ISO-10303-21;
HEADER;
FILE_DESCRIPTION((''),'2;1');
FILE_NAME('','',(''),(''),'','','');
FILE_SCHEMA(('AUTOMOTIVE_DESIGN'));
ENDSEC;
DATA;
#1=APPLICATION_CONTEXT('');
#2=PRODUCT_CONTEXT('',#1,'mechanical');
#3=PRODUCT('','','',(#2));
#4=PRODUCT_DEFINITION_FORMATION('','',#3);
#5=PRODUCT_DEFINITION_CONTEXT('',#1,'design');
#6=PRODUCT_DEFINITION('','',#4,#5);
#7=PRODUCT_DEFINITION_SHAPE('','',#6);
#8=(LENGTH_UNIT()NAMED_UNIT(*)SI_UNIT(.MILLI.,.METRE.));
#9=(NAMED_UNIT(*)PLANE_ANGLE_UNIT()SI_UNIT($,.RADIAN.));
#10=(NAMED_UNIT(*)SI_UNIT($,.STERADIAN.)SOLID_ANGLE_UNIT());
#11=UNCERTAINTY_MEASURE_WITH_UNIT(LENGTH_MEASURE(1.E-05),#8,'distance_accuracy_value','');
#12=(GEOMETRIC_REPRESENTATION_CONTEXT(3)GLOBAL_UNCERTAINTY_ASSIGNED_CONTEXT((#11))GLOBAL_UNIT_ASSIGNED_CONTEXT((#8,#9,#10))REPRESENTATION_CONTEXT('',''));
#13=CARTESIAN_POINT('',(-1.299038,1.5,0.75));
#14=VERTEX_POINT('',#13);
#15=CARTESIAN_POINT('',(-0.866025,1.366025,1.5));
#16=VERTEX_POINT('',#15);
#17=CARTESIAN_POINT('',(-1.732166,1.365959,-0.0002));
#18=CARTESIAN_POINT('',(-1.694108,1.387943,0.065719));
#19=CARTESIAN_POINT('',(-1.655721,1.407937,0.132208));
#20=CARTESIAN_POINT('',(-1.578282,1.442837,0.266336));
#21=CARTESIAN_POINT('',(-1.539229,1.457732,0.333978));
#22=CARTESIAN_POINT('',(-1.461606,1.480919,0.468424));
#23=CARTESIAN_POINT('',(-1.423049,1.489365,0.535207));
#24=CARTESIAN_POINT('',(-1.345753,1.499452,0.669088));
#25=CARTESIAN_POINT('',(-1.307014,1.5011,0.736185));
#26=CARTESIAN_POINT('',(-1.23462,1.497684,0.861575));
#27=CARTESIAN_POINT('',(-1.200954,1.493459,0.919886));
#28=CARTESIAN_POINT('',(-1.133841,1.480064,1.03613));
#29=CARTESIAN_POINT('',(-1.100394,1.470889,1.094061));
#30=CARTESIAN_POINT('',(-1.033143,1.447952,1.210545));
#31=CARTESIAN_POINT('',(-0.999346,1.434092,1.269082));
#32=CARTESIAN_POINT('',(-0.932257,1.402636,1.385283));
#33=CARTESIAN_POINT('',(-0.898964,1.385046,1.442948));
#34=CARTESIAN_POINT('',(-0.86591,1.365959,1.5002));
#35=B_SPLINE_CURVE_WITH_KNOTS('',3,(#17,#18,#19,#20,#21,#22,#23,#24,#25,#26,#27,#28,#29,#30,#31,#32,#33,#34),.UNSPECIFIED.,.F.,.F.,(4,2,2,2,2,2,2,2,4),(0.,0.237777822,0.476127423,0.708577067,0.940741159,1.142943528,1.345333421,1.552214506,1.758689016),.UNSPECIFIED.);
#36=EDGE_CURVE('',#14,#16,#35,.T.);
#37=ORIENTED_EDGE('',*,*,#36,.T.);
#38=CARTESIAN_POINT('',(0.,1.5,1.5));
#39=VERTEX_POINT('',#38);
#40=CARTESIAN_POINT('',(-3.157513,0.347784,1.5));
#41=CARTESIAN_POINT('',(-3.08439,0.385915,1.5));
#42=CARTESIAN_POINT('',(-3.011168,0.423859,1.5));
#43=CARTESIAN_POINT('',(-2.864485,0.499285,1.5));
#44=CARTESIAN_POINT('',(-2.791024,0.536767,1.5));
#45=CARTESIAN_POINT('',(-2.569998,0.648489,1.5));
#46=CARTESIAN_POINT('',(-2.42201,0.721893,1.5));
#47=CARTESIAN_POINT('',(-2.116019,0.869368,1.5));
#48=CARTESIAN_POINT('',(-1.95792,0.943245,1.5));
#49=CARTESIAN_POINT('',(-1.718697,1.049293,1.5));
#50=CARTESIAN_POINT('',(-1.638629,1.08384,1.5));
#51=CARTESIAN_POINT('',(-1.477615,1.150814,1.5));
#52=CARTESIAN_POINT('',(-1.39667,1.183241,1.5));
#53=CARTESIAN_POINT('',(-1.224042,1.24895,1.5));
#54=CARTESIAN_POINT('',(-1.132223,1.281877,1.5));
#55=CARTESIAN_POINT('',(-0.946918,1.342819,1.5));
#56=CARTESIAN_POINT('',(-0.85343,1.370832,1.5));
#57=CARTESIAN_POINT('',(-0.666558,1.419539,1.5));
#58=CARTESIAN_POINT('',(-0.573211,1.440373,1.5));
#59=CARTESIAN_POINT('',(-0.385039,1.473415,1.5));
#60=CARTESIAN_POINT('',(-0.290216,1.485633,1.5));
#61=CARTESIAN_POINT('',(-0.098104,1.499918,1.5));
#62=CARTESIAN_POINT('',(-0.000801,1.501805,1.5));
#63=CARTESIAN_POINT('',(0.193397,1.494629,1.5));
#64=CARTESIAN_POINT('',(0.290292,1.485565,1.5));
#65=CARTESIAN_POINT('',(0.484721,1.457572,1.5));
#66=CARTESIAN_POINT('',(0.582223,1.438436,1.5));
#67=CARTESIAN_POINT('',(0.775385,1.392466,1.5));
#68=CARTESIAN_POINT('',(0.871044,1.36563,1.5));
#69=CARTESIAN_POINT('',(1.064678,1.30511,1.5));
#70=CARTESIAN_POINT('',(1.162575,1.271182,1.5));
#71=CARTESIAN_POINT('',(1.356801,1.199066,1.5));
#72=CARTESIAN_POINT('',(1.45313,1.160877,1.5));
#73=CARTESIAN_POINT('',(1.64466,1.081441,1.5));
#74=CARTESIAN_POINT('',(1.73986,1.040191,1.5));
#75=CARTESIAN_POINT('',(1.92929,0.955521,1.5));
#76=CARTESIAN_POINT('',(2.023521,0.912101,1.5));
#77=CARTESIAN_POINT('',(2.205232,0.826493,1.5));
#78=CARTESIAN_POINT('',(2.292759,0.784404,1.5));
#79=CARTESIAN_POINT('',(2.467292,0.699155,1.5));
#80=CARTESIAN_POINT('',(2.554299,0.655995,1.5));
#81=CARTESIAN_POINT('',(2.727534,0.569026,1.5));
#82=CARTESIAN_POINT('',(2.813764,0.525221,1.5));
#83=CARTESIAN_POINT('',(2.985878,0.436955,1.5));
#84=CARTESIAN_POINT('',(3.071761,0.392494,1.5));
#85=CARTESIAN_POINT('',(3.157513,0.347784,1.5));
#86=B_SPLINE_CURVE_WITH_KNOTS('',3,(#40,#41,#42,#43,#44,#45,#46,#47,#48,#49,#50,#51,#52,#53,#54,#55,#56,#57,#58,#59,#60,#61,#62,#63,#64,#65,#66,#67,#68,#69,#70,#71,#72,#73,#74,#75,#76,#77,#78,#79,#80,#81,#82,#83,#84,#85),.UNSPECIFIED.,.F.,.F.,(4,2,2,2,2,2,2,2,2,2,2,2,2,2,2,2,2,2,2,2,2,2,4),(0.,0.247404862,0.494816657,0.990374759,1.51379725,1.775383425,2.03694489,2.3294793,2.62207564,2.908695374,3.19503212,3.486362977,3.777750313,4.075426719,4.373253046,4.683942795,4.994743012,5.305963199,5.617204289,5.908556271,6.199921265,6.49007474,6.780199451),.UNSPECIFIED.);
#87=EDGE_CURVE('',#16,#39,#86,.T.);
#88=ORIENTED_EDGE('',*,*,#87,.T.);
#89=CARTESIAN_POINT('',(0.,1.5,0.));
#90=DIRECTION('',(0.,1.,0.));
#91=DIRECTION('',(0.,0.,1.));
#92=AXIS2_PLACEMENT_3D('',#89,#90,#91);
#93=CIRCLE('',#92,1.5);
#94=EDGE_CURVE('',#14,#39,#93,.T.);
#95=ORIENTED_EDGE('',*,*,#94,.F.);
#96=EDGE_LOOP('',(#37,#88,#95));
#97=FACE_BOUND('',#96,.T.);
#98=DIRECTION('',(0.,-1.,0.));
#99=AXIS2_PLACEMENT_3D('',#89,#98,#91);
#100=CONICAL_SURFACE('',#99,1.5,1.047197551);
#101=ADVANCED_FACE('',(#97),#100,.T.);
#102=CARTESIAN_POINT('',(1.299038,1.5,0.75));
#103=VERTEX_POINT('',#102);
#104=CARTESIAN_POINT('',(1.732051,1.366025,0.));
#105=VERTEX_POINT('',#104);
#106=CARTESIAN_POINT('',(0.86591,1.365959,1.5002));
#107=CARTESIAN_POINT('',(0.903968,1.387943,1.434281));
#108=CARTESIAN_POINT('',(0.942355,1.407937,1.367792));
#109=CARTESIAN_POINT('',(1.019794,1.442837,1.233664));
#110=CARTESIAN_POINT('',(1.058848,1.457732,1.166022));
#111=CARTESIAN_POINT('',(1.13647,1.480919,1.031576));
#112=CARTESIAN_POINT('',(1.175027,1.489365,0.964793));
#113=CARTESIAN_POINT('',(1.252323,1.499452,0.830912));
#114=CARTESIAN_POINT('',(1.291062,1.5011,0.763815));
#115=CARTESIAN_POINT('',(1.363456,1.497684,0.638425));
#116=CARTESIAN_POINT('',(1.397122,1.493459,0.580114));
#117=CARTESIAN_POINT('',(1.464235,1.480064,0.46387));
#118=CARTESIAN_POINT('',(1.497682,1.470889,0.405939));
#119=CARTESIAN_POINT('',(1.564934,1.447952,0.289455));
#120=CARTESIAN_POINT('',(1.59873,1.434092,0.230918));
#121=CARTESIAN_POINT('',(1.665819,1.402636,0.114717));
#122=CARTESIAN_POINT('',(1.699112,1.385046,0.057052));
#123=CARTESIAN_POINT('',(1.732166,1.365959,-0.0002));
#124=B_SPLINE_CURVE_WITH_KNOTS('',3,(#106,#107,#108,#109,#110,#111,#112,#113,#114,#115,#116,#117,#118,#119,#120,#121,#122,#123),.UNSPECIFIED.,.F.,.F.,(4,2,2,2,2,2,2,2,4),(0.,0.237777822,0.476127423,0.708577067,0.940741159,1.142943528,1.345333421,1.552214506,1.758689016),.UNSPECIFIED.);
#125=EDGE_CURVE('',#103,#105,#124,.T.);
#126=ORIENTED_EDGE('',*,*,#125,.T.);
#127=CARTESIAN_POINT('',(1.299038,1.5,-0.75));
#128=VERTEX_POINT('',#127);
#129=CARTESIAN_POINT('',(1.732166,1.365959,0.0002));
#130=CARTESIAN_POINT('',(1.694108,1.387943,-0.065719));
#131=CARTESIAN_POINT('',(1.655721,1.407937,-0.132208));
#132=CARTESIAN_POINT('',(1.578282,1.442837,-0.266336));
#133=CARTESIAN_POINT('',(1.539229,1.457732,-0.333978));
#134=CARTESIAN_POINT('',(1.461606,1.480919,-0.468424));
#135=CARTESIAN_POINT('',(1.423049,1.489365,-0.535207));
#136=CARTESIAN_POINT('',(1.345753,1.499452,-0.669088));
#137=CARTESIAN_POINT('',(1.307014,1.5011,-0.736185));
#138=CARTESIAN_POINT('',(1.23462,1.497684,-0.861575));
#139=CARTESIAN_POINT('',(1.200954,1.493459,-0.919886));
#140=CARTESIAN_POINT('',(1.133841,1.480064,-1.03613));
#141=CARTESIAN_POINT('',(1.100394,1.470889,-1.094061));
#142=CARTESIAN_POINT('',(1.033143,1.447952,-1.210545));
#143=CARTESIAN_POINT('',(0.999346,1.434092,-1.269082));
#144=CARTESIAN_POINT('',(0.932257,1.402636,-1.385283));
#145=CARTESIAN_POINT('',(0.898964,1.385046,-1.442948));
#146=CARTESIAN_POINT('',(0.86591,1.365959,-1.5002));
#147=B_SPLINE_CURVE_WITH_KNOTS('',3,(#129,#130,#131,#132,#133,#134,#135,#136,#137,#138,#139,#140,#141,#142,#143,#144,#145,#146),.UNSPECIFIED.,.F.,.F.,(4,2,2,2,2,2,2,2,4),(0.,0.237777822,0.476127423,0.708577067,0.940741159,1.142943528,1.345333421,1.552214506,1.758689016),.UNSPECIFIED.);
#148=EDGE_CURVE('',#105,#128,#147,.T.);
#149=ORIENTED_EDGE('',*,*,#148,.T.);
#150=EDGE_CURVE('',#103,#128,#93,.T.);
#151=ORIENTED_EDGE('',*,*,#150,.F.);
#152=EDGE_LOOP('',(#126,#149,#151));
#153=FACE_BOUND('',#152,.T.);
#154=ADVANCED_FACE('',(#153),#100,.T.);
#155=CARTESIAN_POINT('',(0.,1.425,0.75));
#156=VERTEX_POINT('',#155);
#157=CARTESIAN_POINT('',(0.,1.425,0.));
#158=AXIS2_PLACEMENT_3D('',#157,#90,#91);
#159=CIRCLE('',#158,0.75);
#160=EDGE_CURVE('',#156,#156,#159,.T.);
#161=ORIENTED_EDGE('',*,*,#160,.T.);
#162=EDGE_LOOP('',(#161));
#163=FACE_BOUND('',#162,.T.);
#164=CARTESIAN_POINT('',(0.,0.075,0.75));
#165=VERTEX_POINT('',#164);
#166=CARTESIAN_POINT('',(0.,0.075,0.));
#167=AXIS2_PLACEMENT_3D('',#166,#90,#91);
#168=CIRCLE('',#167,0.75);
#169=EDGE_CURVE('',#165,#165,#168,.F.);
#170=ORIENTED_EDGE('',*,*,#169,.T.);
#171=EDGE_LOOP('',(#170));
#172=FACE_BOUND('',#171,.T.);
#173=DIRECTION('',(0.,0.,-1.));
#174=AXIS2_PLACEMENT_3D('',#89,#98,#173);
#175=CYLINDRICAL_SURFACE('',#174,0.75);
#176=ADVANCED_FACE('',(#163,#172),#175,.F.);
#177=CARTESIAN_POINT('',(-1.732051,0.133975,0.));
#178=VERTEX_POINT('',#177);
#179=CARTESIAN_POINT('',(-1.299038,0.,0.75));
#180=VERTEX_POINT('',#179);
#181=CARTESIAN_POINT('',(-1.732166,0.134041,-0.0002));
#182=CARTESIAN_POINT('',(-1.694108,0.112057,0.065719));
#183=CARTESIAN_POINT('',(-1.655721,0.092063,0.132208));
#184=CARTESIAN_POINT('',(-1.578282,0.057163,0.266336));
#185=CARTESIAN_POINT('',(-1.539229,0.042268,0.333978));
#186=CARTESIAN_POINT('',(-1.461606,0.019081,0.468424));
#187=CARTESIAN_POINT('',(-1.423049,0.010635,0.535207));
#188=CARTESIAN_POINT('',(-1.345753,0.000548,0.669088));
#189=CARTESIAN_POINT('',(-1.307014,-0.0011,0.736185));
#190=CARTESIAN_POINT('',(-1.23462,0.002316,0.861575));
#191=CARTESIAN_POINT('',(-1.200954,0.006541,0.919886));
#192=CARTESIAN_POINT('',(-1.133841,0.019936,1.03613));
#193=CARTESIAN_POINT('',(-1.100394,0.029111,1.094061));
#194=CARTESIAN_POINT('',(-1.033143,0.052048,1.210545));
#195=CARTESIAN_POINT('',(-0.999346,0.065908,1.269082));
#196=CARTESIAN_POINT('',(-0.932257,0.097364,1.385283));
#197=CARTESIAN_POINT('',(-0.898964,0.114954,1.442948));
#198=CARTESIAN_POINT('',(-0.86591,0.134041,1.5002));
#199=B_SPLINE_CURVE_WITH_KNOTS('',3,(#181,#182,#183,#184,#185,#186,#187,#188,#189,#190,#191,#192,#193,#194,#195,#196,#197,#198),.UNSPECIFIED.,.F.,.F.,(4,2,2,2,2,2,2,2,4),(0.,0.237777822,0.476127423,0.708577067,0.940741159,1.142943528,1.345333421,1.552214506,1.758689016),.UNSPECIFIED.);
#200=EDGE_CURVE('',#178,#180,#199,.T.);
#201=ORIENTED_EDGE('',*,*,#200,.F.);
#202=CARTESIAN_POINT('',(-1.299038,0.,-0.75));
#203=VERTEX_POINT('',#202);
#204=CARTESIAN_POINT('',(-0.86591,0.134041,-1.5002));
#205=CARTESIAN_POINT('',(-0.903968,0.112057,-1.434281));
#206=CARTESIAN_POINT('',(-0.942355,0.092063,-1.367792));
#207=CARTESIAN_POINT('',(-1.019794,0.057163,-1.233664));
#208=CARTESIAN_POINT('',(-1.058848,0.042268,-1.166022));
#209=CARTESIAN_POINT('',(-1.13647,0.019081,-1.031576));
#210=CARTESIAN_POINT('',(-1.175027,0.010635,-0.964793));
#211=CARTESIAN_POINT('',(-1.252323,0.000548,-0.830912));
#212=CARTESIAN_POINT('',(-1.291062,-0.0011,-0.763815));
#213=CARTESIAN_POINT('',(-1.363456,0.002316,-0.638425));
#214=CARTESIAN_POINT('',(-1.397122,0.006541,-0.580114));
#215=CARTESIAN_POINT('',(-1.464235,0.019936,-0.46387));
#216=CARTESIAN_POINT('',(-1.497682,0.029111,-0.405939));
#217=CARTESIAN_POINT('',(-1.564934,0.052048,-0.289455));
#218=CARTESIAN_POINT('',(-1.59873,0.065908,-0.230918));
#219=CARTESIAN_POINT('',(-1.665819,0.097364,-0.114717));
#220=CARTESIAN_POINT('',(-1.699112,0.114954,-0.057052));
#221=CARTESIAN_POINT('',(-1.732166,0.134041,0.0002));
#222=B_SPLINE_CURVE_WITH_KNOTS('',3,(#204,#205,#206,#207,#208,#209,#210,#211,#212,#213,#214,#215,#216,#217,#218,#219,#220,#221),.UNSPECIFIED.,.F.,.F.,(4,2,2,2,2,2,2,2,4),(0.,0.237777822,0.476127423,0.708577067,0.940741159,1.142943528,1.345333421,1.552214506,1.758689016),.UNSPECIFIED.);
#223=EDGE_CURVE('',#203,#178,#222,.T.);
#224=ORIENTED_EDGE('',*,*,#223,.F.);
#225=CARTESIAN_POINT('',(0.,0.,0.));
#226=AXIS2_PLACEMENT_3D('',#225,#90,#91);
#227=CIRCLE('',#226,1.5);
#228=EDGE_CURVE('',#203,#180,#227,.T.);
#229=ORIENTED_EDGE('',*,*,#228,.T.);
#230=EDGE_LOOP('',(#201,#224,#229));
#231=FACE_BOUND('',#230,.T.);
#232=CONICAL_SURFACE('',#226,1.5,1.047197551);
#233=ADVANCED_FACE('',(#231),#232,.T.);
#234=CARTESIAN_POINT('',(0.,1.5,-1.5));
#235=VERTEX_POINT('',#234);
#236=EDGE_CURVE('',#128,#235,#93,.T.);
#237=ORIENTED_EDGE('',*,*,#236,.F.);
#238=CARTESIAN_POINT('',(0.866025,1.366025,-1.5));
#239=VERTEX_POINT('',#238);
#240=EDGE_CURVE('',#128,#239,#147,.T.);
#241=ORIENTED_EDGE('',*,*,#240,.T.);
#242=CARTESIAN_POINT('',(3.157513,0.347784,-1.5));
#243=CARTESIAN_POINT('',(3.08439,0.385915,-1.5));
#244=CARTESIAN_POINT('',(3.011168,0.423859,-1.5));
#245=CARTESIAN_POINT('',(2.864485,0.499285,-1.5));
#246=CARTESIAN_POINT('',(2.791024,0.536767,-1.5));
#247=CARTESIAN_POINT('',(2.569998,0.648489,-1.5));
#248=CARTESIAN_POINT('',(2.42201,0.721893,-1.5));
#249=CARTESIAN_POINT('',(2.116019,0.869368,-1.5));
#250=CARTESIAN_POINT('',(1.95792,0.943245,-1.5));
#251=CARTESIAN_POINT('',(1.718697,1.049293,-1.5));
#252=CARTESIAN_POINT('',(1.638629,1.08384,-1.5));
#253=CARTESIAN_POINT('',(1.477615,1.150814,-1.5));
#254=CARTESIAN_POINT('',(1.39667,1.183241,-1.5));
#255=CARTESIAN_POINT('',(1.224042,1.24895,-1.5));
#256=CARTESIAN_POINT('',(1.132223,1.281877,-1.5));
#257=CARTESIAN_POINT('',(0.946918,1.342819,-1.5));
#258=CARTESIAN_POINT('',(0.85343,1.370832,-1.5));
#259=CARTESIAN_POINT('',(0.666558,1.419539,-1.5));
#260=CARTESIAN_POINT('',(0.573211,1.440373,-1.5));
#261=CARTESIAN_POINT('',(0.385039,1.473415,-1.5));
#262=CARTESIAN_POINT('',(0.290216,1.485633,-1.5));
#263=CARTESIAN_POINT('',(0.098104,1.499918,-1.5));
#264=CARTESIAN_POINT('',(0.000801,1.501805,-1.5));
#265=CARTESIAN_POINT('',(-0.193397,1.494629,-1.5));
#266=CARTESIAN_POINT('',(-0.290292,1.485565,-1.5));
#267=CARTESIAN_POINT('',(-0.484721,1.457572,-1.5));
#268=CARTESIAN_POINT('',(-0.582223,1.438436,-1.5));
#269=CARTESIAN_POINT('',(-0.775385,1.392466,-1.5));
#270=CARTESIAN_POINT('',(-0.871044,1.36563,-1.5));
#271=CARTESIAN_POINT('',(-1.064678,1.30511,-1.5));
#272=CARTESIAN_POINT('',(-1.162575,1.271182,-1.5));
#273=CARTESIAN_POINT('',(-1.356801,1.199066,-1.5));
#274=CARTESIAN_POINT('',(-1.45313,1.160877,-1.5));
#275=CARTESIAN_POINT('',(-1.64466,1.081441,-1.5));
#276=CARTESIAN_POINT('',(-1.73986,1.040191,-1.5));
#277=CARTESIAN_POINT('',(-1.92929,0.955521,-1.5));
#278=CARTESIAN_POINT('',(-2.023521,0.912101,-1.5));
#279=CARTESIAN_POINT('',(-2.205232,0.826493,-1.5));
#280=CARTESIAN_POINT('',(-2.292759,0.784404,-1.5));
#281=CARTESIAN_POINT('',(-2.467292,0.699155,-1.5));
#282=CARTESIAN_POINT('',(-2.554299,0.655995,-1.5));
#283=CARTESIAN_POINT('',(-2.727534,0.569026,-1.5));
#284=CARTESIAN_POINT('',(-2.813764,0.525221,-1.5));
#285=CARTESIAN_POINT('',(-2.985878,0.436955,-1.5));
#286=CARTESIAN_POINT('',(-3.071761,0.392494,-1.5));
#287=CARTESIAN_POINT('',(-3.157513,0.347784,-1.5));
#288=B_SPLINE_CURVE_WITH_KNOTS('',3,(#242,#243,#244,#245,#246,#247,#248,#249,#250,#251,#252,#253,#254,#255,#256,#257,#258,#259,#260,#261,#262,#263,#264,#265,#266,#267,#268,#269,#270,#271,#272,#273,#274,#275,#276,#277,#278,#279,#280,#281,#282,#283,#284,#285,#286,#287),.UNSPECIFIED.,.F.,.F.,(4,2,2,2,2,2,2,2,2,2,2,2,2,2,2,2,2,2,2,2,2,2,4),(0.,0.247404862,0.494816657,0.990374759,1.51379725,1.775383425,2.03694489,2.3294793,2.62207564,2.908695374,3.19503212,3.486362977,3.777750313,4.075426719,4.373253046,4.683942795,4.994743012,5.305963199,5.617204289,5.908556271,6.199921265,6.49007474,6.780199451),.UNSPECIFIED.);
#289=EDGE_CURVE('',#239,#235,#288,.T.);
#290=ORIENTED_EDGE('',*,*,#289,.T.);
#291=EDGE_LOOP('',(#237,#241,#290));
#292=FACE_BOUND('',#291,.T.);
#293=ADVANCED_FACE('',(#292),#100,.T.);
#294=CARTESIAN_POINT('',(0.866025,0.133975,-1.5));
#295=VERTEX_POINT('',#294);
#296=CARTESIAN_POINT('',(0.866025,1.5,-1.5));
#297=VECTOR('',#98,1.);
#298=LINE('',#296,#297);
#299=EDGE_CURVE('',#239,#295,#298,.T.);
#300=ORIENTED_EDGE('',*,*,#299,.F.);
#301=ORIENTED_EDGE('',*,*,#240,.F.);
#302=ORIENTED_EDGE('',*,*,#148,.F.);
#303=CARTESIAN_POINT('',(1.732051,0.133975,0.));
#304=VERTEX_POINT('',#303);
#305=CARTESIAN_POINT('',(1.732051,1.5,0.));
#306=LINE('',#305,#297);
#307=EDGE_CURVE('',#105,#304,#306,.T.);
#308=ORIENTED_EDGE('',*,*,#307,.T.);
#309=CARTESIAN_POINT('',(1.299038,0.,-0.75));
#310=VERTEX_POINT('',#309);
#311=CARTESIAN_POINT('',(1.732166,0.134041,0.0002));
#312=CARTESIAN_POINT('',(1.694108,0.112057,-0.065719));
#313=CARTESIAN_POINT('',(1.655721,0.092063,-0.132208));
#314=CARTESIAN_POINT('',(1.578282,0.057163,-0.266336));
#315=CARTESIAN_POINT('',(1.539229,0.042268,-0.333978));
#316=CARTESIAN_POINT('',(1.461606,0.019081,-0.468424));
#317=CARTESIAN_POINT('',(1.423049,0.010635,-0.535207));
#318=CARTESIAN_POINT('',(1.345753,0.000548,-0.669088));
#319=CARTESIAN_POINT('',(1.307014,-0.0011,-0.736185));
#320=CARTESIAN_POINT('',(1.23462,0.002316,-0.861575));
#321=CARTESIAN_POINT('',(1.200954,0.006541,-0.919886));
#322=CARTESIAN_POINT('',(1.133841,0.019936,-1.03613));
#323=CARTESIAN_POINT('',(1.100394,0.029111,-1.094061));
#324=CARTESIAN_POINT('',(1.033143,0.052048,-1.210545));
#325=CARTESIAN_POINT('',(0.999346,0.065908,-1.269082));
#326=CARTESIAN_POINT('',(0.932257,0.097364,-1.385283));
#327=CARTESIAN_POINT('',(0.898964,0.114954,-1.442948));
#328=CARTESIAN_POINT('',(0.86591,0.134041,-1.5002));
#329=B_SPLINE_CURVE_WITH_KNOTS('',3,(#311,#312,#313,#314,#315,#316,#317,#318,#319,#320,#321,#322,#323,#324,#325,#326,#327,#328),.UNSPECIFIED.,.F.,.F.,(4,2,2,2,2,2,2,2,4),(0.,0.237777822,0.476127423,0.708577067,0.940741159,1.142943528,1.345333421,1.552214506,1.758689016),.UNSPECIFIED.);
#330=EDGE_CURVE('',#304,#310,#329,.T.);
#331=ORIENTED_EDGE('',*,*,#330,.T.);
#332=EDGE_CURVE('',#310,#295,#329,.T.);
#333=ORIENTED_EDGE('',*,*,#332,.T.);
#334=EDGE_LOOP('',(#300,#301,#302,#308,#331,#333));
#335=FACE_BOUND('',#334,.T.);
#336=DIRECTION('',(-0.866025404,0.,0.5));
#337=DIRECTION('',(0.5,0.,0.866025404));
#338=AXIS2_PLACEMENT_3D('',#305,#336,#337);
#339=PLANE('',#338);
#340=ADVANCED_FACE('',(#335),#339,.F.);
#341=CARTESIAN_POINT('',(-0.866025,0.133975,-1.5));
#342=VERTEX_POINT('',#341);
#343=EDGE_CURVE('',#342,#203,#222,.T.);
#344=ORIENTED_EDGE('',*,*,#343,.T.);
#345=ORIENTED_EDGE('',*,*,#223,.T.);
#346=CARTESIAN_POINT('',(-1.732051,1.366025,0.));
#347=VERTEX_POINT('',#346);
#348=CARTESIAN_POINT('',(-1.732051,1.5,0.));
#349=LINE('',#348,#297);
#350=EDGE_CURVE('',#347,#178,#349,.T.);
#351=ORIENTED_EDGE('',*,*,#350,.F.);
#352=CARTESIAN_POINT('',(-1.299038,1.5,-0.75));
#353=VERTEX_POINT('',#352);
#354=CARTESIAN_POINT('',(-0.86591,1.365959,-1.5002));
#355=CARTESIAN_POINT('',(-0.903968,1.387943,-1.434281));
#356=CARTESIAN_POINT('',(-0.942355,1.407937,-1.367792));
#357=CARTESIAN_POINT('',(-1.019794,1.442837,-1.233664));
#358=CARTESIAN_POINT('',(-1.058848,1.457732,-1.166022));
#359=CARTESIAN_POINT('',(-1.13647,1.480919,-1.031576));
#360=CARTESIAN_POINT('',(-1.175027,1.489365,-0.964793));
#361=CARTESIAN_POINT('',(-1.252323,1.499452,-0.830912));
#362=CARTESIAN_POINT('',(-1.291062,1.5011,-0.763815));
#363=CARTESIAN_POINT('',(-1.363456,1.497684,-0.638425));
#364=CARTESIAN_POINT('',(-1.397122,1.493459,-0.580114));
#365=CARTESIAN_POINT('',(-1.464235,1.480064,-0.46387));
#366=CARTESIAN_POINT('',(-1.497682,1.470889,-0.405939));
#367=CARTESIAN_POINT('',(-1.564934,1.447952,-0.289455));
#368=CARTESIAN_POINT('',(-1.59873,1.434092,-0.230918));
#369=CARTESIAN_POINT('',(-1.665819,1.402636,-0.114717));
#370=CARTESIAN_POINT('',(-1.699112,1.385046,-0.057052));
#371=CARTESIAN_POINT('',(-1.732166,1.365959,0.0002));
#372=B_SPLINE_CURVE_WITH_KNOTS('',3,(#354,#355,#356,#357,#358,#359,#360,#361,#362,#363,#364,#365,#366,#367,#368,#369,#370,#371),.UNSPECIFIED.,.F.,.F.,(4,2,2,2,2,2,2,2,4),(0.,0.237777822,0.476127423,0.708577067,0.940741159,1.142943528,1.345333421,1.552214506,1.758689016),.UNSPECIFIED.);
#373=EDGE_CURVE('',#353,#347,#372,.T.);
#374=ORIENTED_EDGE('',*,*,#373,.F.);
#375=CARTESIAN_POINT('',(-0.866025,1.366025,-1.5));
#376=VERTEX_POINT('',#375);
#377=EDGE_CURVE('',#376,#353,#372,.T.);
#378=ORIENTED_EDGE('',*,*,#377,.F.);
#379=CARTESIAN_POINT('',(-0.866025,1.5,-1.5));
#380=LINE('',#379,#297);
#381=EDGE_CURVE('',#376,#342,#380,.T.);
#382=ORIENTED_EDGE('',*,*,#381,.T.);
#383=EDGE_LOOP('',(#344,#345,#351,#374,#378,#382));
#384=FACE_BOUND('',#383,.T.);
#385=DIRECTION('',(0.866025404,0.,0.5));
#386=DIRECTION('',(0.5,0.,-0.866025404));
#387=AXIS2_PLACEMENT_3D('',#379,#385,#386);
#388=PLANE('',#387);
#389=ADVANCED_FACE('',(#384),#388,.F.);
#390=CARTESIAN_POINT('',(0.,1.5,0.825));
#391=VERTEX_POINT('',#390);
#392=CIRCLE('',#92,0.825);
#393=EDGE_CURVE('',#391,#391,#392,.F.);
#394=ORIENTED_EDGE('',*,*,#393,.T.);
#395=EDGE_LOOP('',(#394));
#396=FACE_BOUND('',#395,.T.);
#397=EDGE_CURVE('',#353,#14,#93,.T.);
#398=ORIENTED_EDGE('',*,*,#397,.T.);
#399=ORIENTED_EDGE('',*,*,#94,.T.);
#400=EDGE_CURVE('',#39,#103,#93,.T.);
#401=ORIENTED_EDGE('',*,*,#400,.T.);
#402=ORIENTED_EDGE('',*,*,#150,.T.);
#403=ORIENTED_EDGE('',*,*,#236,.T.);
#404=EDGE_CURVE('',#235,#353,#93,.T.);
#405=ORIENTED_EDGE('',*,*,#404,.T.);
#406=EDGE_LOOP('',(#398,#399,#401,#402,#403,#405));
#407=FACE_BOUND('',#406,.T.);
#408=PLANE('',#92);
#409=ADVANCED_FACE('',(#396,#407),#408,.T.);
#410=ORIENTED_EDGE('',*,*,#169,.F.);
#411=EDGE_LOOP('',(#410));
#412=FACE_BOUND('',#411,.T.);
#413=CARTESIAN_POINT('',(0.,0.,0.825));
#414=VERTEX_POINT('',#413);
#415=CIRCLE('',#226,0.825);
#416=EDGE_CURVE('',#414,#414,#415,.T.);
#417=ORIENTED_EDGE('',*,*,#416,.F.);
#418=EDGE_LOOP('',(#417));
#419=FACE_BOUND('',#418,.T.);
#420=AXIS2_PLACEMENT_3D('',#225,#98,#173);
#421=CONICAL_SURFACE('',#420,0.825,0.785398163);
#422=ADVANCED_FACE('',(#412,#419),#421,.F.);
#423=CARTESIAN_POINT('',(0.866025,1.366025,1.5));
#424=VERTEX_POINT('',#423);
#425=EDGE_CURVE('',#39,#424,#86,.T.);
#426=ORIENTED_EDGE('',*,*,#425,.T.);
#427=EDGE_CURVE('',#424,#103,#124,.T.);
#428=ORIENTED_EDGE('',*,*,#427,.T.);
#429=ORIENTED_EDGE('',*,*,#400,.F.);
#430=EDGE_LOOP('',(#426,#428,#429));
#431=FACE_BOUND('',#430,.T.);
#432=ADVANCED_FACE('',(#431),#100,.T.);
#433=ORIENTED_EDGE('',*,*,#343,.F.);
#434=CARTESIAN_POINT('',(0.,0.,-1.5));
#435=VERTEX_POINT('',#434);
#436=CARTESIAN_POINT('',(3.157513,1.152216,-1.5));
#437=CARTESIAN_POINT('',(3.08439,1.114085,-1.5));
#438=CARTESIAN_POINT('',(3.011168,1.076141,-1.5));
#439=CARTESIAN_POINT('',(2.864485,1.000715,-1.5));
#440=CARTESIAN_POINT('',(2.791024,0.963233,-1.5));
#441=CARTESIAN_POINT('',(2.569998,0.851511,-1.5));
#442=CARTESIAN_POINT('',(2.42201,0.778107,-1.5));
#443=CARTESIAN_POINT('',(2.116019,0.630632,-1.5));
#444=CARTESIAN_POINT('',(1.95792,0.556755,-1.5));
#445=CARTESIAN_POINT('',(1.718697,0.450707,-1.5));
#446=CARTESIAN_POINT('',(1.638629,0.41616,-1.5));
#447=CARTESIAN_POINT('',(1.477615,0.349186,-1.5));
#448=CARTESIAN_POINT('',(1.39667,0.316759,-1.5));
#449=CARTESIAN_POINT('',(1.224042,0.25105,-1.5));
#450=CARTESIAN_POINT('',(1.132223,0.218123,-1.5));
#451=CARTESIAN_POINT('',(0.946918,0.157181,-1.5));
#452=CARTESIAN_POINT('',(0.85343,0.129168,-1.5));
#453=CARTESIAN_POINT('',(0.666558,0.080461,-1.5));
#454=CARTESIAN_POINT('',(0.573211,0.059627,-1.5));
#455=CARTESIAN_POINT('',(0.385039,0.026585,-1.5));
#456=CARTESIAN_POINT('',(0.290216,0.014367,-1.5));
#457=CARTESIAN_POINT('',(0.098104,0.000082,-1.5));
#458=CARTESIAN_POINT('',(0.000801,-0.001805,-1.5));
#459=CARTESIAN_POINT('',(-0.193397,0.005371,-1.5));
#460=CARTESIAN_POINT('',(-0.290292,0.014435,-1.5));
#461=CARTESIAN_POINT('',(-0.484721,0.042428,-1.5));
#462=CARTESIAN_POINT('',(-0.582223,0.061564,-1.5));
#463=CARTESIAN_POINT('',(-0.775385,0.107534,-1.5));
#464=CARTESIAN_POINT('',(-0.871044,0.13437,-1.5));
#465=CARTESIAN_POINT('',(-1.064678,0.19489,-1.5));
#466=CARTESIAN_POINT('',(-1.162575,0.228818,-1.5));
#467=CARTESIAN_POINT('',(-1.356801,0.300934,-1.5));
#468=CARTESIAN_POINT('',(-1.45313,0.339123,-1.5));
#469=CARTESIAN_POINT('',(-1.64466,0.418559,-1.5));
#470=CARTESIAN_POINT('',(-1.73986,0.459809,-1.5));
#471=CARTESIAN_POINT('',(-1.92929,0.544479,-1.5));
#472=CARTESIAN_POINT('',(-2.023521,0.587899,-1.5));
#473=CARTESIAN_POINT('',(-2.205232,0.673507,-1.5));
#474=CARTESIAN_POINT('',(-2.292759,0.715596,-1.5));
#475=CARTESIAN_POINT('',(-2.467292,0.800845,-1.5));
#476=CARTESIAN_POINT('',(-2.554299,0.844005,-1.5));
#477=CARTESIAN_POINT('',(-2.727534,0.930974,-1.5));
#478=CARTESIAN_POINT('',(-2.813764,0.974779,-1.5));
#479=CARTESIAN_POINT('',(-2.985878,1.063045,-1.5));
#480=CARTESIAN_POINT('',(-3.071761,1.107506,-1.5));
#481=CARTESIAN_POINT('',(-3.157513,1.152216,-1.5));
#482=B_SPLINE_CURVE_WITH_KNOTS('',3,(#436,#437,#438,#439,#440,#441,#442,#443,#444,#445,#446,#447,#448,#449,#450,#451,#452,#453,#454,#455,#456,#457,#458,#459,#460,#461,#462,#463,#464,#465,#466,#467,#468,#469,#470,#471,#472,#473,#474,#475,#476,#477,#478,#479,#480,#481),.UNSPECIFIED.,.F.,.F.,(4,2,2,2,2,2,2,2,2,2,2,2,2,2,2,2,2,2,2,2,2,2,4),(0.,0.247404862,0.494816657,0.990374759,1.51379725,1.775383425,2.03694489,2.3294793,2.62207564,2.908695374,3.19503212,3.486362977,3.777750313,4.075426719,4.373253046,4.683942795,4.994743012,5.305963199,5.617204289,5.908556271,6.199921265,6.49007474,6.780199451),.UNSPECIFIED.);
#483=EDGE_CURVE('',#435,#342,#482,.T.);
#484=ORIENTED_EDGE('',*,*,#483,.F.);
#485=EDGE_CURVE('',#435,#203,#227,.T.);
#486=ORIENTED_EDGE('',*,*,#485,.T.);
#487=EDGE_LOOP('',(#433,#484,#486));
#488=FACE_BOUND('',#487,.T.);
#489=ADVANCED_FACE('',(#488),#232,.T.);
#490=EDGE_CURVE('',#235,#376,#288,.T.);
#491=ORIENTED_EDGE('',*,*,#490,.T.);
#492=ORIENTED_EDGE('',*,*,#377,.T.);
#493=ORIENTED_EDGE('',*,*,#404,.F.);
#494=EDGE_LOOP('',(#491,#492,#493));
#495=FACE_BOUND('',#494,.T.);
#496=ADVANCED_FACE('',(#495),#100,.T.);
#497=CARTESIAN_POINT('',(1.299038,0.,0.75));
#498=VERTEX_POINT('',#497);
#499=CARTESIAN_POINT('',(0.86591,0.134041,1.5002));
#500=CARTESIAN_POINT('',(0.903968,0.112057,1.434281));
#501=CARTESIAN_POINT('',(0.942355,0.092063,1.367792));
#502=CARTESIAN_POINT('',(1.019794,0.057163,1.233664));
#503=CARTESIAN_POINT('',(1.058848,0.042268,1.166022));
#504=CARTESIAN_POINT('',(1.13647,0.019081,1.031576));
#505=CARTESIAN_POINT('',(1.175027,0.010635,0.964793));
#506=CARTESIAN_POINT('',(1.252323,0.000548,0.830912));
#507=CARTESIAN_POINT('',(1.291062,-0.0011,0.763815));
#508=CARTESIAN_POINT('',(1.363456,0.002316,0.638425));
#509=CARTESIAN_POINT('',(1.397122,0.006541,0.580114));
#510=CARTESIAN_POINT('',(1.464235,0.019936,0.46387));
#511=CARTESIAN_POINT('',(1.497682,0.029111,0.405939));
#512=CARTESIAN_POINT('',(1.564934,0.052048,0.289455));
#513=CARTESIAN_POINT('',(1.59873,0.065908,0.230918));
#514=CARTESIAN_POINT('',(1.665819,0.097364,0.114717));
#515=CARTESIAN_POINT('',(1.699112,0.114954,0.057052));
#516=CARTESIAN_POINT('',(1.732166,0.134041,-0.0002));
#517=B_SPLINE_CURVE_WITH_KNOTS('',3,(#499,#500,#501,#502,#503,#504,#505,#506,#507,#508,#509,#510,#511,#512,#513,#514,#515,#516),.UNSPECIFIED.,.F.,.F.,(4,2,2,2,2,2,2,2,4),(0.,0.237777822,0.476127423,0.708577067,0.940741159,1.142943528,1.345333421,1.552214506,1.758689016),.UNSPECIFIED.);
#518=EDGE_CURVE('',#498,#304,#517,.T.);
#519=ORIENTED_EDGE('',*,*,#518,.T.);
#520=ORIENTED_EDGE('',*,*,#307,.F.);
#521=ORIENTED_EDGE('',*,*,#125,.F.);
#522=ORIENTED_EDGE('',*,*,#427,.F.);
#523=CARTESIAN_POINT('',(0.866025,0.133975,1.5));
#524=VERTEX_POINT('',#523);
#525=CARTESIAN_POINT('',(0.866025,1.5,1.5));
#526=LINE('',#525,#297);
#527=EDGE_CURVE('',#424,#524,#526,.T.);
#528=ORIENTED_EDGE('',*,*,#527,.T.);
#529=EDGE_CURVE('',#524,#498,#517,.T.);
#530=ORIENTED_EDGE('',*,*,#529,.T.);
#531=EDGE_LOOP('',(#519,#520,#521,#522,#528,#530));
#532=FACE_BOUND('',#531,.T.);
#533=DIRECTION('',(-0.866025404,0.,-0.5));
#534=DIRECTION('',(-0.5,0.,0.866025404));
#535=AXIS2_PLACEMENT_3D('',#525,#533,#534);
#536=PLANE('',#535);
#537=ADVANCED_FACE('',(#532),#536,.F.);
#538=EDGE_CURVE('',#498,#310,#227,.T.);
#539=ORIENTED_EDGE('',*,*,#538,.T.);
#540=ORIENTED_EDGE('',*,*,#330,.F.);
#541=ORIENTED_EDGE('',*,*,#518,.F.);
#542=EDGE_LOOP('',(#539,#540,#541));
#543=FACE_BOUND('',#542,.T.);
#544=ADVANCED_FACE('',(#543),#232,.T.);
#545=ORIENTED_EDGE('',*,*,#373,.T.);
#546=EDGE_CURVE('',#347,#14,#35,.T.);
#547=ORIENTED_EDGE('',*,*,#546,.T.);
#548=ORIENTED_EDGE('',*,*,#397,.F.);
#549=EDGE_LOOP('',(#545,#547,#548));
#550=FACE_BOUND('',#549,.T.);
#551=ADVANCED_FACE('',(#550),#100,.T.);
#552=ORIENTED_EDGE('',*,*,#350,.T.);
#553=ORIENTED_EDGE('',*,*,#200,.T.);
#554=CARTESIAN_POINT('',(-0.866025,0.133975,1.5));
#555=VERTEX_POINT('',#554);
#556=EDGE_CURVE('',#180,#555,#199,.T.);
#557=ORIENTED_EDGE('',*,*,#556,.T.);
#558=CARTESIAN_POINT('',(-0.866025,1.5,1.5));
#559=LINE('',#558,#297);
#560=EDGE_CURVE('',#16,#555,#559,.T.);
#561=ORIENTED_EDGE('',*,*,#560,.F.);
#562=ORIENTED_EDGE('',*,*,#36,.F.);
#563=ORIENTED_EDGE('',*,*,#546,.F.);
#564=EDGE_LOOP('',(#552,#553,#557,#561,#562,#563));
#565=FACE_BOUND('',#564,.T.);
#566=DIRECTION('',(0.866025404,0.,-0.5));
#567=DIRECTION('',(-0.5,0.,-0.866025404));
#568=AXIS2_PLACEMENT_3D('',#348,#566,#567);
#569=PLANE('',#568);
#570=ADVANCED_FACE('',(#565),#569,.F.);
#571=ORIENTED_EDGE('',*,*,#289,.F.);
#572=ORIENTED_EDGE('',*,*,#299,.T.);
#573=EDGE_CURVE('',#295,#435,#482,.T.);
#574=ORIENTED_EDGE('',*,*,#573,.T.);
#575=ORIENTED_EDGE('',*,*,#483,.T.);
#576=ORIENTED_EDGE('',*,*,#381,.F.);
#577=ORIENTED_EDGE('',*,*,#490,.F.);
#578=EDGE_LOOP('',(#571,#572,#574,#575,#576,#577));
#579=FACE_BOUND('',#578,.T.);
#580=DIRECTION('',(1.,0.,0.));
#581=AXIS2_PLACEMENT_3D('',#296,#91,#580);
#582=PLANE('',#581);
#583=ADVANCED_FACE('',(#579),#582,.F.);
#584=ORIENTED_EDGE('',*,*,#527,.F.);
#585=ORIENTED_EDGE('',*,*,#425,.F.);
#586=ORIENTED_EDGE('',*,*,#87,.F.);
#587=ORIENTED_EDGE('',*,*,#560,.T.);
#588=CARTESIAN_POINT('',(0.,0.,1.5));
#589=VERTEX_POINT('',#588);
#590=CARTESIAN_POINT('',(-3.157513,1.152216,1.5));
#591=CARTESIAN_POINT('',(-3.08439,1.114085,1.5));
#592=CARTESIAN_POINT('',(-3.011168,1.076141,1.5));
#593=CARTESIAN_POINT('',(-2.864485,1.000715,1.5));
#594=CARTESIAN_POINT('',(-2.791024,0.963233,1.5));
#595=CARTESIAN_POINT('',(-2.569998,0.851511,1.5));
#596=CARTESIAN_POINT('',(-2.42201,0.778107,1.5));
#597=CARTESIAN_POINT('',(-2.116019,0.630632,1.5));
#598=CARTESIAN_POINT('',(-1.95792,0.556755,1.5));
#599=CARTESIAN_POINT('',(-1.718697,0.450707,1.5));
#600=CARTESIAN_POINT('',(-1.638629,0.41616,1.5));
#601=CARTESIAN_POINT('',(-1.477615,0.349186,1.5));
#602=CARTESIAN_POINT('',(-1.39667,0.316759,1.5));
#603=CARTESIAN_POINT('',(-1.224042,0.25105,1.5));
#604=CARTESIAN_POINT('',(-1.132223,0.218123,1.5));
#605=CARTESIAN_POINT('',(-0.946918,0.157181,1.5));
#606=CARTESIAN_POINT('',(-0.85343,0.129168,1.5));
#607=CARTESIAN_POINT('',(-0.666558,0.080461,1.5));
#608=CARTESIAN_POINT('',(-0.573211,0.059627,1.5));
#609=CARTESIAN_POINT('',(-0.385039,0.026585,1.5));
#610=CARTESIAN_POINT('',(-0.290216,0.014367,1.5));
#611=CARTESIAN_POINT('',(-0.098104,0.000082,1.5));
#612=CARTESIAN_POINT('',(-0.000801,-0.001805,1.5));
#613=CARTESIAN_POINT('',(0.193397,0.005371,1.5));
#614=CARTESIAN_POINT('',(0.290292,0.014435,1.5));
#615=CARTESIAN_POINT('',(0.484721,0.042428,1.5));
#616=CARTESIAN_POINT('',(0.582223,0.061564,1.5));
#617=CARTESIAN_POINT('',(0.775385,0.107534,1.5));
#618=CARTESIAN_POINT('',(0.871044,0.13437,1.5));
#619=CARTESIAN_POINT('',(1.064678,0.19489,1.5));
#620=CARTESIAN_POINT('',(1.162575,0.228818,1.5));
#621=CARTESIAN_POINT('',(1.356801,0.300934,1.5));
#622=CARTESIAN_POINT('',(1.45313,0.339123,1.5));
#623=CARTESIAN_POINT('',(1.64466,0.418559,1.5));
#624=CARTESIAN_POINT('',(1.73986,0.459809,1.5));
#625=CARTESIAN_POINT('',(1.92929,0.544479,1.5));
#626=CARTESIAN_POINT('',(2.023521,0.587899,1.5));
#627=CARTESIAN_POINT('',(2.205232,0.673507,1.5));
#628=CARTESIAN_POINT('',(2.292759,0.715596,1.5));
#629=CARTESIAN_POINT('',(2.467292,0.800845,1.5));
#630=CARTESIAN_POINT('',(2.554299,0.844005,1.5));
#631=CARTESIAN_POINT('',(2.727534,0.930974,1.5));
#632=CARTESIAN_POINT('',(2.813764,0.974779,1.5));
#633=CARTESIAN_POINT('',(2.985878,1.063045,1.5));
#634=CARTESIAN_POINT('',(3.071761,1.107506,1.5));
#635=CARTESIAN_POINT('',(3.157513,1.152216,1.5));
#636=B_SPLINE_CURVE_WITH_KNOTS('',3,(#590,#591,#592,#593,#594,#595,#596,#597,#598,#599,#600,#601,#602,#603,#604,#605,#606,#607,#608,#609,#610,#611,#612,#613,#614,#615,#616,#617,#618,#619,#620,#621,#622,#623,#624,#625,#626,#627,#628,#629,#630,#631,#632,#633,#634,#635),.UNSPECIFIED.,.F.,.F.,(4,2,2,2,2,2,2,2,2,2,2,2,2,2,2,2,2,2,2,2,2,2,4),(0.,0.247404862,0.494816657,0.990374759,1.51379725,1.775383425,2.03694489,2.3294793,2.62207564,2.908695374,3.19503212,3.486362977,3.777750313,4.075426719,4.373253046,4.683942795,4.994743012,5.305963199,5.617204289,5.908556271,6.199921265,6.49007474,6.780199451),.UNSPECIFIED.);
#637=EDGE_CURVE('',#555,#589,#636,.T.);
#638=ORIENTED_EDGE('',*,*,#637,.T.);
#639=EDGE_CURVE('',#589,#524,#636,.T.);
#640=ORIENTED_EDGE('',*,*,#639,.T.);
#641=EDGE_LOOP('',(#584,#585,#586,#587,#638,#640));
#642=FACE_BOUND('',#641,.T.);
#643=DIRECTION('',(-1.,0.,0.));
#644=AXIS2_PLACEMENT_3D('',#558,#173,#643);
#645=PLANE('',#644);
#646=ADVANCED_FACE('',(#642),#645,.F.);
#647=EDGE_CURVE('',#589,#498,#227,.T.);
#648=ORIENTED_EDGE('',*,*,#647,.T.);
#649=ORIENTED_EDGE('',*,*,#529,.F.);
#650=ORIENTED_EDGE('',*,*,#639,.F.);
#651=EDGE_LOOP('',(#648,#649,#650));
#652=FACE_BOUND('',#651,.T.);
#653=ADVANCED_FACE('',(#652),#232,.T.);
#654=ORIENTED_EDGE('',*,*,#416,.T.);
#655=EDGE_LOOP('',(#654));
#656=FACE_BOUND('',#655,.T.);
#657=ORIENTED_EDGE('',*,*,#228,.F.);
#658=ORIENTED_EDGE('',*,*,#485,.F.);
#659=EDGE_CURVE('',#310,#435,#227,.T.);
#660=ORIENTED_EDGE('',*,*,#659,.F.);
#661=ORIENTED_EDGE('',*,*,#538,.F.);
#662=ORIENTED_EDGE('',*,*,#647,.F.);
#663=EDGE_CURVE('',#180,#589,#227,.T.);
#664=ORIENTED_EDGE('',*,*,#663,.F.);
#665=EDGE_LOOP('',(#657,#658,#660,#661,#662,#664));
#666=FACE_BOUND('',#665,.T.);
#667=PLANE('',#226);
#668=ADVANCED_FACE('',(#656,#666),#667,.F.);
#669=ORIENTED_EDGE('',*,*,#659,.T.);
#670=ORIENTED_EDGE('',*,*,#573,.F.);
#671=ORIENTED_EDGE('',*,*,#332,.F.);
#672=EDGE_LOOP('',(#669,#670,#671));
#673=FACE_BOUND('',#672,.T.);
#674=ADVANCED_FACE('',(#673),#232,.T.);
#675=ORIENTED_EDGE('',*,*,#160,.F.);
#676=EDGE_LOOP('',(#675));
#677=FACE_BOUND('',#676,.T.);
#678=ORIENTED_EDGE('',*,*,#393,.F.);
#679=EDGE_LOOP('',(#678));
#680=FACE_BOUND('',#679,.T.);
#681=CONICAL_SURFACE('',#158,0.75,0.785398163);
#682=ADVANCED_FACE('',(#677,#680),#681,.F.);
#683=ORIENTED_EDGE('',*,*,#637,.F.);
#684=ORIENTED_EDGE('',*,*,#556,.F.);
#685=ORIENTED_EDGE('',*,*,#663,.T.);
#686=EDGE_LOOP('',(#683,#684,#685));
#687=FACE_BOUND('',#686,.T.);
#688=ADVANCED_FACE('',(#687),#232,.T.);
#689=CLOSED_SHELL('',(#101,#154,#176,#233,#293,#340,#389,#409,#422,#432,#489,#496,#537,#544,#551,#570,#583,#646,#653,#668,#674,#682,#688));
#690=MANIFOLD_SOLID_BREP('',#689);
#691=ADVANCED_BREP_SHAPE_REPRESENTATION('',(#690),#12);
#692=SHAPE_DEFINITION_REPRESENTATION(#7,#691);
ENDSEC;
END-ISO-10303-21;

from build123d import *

# Parameters (mm, degrees)
SKETCH2_R           = 0.75
BOSS_EXTRUDE1_DEPTH = 1.5
SKETCH3_OUTSIDE_W   = 17.686
SKETCH3_OUTSIDE_H   = 17.222
SKETCH3_OUTSIDE_R   = 1.5
CUT_EXTRUDE1_DEPTH  = 3.25
CUT_EXTRUDE1_DRAFT  = 60
SKETCH4_OUTSIDE_W   = 17.686
SKETCH4_OUTSIDE_H   = 17.222
SKETCH4_OUTSIDE_R   = 1.5
CUT_EXTRUDE2_DEPTH  = 3.25
CUT_EXTRUDE2_DRAFT  = -60
CHAMFER1_SIZE       = 0.075


with BuildPart() as part:
    # Sketch2 → Boss-Extrude1 (new body)
    with BuildSketch(Plane(origin=(0, 0, 0), x_dir=(1, 0, 0), z_dir=(0, 1, 0))):
        Polygon((1.732050808, 0), (0.866025404, 1.5), (-0.866025404, 1.5), (-1.732050808, 0), (-0.866025404, -1.5), (0.866025404, -1.5), align=None)
        with Locations(Location((0, 0, 0), (0, 0, 270))):
            Circle(SKETCH2_R, mode=Mode.SUBTRACT)
    extrude(amount=BOSS_EXTRUDE1_DEPTH)


with BuildPart() as cut_extrude1_tool:
    # Sketch3 outside → Cut-Extrude1 (with draft: the straight prism first)
    with BuildSketch(Plane(origin=(0, 0, 0), x_dir=(1, 0, 0), z_dir=(0, 1, 0))):
        Rectangle(SKETCH3_OUTSIDE_W, SKETCH3_OUTSIDE_H)
        Circle(SKETCH3_OUTSIDE_R, mode=Mode.SUBTRACT)
    extrude(amount=CUT_EXTRUDE1_DEPTH)
    # Cut-Extrude1: the draft: its side faces are tilted about the plane it starts from
    cut_extrude1_sides = [cut_extrude1_tool.faces().sort_by_distance(p)[0] for p in [
        (0, 1.625, 8.611),
        (8.843, 1.625, 0),
        (0, 1.625, -8.611),
        (-8.843, 1.625, 0),
        (-1.5, 1.625, 0),
    ]]
    draft(cut_extrude1_sides, Plane(origin=(0, 0, 0), x_dir=(1, 0, 0), z_dir=(0, 1, 0)), CUT_EXTRUDE1_DRAFT)


with BuildPart() as part_1:
    add(part.part)

    # Cut-Extrude1: cut by cut_extrude1_tool
    add(cut_extrude1_tool.part, mode=Mode.SUBTRACT)


with BuildPart() as cut_extrude2_tool:
    # Sketch4 outside → Cut-Extrude2 (with draft: the straight prism first)
    with BuildSketch(Plane(origin=(0, 1.5, 0), x_dir=(1, 0, 0), z_dir=(0, 1, 0))):
        Rectangle(SKETCH4_OUTSIDE_W, SKETCH4_OUTSIDE_H)
        Circle(SKETCH4_OUTSIDE_R, mode=Mode.SUBTRACT)
    extrude(amount=-CUT_EXTRUDE2_DEPTH)
    # Cut-Extrude2: the draft: its side faces are tilted about the plane it starts from
    cut_extrude2_sides = [cut_extrude2_tool.faces().sort_by_distance(p)[0] for p in [
        (0, -0.125, 8.611),
        (8.843, -0.125, 0),
        (0, -0.125, -8.611),
        (-8.843, -0.125, 0),
        (-1.5, -0.125, 0),
    ]]
    draft(cut_extrude2_sides, Plane(origin=(0, 1.5, 0), x_dir=(1, 0, 0), z_dir=(0, 1, 0)), CUT_EXTRUDE2_DRAFT)


with BuildPart() as part_2:
    add(part_1.part)

    # Cut-Extrude2: cut by cut_extrude2_tool
    add(cut_extrude2_tool.part, mode=Mode.SUBTRACT)

    # Chamfer1
    chamfer1_edges = [part_2.edges().sort_by_distance(p)[0] for p in [
        (0, 0, -0.75),
        (0, 1.5, -0.75),
    ]]
    chamfer(chamfer1_edges, length=CHAMFER1_SIZE)


solid = part_2.part
